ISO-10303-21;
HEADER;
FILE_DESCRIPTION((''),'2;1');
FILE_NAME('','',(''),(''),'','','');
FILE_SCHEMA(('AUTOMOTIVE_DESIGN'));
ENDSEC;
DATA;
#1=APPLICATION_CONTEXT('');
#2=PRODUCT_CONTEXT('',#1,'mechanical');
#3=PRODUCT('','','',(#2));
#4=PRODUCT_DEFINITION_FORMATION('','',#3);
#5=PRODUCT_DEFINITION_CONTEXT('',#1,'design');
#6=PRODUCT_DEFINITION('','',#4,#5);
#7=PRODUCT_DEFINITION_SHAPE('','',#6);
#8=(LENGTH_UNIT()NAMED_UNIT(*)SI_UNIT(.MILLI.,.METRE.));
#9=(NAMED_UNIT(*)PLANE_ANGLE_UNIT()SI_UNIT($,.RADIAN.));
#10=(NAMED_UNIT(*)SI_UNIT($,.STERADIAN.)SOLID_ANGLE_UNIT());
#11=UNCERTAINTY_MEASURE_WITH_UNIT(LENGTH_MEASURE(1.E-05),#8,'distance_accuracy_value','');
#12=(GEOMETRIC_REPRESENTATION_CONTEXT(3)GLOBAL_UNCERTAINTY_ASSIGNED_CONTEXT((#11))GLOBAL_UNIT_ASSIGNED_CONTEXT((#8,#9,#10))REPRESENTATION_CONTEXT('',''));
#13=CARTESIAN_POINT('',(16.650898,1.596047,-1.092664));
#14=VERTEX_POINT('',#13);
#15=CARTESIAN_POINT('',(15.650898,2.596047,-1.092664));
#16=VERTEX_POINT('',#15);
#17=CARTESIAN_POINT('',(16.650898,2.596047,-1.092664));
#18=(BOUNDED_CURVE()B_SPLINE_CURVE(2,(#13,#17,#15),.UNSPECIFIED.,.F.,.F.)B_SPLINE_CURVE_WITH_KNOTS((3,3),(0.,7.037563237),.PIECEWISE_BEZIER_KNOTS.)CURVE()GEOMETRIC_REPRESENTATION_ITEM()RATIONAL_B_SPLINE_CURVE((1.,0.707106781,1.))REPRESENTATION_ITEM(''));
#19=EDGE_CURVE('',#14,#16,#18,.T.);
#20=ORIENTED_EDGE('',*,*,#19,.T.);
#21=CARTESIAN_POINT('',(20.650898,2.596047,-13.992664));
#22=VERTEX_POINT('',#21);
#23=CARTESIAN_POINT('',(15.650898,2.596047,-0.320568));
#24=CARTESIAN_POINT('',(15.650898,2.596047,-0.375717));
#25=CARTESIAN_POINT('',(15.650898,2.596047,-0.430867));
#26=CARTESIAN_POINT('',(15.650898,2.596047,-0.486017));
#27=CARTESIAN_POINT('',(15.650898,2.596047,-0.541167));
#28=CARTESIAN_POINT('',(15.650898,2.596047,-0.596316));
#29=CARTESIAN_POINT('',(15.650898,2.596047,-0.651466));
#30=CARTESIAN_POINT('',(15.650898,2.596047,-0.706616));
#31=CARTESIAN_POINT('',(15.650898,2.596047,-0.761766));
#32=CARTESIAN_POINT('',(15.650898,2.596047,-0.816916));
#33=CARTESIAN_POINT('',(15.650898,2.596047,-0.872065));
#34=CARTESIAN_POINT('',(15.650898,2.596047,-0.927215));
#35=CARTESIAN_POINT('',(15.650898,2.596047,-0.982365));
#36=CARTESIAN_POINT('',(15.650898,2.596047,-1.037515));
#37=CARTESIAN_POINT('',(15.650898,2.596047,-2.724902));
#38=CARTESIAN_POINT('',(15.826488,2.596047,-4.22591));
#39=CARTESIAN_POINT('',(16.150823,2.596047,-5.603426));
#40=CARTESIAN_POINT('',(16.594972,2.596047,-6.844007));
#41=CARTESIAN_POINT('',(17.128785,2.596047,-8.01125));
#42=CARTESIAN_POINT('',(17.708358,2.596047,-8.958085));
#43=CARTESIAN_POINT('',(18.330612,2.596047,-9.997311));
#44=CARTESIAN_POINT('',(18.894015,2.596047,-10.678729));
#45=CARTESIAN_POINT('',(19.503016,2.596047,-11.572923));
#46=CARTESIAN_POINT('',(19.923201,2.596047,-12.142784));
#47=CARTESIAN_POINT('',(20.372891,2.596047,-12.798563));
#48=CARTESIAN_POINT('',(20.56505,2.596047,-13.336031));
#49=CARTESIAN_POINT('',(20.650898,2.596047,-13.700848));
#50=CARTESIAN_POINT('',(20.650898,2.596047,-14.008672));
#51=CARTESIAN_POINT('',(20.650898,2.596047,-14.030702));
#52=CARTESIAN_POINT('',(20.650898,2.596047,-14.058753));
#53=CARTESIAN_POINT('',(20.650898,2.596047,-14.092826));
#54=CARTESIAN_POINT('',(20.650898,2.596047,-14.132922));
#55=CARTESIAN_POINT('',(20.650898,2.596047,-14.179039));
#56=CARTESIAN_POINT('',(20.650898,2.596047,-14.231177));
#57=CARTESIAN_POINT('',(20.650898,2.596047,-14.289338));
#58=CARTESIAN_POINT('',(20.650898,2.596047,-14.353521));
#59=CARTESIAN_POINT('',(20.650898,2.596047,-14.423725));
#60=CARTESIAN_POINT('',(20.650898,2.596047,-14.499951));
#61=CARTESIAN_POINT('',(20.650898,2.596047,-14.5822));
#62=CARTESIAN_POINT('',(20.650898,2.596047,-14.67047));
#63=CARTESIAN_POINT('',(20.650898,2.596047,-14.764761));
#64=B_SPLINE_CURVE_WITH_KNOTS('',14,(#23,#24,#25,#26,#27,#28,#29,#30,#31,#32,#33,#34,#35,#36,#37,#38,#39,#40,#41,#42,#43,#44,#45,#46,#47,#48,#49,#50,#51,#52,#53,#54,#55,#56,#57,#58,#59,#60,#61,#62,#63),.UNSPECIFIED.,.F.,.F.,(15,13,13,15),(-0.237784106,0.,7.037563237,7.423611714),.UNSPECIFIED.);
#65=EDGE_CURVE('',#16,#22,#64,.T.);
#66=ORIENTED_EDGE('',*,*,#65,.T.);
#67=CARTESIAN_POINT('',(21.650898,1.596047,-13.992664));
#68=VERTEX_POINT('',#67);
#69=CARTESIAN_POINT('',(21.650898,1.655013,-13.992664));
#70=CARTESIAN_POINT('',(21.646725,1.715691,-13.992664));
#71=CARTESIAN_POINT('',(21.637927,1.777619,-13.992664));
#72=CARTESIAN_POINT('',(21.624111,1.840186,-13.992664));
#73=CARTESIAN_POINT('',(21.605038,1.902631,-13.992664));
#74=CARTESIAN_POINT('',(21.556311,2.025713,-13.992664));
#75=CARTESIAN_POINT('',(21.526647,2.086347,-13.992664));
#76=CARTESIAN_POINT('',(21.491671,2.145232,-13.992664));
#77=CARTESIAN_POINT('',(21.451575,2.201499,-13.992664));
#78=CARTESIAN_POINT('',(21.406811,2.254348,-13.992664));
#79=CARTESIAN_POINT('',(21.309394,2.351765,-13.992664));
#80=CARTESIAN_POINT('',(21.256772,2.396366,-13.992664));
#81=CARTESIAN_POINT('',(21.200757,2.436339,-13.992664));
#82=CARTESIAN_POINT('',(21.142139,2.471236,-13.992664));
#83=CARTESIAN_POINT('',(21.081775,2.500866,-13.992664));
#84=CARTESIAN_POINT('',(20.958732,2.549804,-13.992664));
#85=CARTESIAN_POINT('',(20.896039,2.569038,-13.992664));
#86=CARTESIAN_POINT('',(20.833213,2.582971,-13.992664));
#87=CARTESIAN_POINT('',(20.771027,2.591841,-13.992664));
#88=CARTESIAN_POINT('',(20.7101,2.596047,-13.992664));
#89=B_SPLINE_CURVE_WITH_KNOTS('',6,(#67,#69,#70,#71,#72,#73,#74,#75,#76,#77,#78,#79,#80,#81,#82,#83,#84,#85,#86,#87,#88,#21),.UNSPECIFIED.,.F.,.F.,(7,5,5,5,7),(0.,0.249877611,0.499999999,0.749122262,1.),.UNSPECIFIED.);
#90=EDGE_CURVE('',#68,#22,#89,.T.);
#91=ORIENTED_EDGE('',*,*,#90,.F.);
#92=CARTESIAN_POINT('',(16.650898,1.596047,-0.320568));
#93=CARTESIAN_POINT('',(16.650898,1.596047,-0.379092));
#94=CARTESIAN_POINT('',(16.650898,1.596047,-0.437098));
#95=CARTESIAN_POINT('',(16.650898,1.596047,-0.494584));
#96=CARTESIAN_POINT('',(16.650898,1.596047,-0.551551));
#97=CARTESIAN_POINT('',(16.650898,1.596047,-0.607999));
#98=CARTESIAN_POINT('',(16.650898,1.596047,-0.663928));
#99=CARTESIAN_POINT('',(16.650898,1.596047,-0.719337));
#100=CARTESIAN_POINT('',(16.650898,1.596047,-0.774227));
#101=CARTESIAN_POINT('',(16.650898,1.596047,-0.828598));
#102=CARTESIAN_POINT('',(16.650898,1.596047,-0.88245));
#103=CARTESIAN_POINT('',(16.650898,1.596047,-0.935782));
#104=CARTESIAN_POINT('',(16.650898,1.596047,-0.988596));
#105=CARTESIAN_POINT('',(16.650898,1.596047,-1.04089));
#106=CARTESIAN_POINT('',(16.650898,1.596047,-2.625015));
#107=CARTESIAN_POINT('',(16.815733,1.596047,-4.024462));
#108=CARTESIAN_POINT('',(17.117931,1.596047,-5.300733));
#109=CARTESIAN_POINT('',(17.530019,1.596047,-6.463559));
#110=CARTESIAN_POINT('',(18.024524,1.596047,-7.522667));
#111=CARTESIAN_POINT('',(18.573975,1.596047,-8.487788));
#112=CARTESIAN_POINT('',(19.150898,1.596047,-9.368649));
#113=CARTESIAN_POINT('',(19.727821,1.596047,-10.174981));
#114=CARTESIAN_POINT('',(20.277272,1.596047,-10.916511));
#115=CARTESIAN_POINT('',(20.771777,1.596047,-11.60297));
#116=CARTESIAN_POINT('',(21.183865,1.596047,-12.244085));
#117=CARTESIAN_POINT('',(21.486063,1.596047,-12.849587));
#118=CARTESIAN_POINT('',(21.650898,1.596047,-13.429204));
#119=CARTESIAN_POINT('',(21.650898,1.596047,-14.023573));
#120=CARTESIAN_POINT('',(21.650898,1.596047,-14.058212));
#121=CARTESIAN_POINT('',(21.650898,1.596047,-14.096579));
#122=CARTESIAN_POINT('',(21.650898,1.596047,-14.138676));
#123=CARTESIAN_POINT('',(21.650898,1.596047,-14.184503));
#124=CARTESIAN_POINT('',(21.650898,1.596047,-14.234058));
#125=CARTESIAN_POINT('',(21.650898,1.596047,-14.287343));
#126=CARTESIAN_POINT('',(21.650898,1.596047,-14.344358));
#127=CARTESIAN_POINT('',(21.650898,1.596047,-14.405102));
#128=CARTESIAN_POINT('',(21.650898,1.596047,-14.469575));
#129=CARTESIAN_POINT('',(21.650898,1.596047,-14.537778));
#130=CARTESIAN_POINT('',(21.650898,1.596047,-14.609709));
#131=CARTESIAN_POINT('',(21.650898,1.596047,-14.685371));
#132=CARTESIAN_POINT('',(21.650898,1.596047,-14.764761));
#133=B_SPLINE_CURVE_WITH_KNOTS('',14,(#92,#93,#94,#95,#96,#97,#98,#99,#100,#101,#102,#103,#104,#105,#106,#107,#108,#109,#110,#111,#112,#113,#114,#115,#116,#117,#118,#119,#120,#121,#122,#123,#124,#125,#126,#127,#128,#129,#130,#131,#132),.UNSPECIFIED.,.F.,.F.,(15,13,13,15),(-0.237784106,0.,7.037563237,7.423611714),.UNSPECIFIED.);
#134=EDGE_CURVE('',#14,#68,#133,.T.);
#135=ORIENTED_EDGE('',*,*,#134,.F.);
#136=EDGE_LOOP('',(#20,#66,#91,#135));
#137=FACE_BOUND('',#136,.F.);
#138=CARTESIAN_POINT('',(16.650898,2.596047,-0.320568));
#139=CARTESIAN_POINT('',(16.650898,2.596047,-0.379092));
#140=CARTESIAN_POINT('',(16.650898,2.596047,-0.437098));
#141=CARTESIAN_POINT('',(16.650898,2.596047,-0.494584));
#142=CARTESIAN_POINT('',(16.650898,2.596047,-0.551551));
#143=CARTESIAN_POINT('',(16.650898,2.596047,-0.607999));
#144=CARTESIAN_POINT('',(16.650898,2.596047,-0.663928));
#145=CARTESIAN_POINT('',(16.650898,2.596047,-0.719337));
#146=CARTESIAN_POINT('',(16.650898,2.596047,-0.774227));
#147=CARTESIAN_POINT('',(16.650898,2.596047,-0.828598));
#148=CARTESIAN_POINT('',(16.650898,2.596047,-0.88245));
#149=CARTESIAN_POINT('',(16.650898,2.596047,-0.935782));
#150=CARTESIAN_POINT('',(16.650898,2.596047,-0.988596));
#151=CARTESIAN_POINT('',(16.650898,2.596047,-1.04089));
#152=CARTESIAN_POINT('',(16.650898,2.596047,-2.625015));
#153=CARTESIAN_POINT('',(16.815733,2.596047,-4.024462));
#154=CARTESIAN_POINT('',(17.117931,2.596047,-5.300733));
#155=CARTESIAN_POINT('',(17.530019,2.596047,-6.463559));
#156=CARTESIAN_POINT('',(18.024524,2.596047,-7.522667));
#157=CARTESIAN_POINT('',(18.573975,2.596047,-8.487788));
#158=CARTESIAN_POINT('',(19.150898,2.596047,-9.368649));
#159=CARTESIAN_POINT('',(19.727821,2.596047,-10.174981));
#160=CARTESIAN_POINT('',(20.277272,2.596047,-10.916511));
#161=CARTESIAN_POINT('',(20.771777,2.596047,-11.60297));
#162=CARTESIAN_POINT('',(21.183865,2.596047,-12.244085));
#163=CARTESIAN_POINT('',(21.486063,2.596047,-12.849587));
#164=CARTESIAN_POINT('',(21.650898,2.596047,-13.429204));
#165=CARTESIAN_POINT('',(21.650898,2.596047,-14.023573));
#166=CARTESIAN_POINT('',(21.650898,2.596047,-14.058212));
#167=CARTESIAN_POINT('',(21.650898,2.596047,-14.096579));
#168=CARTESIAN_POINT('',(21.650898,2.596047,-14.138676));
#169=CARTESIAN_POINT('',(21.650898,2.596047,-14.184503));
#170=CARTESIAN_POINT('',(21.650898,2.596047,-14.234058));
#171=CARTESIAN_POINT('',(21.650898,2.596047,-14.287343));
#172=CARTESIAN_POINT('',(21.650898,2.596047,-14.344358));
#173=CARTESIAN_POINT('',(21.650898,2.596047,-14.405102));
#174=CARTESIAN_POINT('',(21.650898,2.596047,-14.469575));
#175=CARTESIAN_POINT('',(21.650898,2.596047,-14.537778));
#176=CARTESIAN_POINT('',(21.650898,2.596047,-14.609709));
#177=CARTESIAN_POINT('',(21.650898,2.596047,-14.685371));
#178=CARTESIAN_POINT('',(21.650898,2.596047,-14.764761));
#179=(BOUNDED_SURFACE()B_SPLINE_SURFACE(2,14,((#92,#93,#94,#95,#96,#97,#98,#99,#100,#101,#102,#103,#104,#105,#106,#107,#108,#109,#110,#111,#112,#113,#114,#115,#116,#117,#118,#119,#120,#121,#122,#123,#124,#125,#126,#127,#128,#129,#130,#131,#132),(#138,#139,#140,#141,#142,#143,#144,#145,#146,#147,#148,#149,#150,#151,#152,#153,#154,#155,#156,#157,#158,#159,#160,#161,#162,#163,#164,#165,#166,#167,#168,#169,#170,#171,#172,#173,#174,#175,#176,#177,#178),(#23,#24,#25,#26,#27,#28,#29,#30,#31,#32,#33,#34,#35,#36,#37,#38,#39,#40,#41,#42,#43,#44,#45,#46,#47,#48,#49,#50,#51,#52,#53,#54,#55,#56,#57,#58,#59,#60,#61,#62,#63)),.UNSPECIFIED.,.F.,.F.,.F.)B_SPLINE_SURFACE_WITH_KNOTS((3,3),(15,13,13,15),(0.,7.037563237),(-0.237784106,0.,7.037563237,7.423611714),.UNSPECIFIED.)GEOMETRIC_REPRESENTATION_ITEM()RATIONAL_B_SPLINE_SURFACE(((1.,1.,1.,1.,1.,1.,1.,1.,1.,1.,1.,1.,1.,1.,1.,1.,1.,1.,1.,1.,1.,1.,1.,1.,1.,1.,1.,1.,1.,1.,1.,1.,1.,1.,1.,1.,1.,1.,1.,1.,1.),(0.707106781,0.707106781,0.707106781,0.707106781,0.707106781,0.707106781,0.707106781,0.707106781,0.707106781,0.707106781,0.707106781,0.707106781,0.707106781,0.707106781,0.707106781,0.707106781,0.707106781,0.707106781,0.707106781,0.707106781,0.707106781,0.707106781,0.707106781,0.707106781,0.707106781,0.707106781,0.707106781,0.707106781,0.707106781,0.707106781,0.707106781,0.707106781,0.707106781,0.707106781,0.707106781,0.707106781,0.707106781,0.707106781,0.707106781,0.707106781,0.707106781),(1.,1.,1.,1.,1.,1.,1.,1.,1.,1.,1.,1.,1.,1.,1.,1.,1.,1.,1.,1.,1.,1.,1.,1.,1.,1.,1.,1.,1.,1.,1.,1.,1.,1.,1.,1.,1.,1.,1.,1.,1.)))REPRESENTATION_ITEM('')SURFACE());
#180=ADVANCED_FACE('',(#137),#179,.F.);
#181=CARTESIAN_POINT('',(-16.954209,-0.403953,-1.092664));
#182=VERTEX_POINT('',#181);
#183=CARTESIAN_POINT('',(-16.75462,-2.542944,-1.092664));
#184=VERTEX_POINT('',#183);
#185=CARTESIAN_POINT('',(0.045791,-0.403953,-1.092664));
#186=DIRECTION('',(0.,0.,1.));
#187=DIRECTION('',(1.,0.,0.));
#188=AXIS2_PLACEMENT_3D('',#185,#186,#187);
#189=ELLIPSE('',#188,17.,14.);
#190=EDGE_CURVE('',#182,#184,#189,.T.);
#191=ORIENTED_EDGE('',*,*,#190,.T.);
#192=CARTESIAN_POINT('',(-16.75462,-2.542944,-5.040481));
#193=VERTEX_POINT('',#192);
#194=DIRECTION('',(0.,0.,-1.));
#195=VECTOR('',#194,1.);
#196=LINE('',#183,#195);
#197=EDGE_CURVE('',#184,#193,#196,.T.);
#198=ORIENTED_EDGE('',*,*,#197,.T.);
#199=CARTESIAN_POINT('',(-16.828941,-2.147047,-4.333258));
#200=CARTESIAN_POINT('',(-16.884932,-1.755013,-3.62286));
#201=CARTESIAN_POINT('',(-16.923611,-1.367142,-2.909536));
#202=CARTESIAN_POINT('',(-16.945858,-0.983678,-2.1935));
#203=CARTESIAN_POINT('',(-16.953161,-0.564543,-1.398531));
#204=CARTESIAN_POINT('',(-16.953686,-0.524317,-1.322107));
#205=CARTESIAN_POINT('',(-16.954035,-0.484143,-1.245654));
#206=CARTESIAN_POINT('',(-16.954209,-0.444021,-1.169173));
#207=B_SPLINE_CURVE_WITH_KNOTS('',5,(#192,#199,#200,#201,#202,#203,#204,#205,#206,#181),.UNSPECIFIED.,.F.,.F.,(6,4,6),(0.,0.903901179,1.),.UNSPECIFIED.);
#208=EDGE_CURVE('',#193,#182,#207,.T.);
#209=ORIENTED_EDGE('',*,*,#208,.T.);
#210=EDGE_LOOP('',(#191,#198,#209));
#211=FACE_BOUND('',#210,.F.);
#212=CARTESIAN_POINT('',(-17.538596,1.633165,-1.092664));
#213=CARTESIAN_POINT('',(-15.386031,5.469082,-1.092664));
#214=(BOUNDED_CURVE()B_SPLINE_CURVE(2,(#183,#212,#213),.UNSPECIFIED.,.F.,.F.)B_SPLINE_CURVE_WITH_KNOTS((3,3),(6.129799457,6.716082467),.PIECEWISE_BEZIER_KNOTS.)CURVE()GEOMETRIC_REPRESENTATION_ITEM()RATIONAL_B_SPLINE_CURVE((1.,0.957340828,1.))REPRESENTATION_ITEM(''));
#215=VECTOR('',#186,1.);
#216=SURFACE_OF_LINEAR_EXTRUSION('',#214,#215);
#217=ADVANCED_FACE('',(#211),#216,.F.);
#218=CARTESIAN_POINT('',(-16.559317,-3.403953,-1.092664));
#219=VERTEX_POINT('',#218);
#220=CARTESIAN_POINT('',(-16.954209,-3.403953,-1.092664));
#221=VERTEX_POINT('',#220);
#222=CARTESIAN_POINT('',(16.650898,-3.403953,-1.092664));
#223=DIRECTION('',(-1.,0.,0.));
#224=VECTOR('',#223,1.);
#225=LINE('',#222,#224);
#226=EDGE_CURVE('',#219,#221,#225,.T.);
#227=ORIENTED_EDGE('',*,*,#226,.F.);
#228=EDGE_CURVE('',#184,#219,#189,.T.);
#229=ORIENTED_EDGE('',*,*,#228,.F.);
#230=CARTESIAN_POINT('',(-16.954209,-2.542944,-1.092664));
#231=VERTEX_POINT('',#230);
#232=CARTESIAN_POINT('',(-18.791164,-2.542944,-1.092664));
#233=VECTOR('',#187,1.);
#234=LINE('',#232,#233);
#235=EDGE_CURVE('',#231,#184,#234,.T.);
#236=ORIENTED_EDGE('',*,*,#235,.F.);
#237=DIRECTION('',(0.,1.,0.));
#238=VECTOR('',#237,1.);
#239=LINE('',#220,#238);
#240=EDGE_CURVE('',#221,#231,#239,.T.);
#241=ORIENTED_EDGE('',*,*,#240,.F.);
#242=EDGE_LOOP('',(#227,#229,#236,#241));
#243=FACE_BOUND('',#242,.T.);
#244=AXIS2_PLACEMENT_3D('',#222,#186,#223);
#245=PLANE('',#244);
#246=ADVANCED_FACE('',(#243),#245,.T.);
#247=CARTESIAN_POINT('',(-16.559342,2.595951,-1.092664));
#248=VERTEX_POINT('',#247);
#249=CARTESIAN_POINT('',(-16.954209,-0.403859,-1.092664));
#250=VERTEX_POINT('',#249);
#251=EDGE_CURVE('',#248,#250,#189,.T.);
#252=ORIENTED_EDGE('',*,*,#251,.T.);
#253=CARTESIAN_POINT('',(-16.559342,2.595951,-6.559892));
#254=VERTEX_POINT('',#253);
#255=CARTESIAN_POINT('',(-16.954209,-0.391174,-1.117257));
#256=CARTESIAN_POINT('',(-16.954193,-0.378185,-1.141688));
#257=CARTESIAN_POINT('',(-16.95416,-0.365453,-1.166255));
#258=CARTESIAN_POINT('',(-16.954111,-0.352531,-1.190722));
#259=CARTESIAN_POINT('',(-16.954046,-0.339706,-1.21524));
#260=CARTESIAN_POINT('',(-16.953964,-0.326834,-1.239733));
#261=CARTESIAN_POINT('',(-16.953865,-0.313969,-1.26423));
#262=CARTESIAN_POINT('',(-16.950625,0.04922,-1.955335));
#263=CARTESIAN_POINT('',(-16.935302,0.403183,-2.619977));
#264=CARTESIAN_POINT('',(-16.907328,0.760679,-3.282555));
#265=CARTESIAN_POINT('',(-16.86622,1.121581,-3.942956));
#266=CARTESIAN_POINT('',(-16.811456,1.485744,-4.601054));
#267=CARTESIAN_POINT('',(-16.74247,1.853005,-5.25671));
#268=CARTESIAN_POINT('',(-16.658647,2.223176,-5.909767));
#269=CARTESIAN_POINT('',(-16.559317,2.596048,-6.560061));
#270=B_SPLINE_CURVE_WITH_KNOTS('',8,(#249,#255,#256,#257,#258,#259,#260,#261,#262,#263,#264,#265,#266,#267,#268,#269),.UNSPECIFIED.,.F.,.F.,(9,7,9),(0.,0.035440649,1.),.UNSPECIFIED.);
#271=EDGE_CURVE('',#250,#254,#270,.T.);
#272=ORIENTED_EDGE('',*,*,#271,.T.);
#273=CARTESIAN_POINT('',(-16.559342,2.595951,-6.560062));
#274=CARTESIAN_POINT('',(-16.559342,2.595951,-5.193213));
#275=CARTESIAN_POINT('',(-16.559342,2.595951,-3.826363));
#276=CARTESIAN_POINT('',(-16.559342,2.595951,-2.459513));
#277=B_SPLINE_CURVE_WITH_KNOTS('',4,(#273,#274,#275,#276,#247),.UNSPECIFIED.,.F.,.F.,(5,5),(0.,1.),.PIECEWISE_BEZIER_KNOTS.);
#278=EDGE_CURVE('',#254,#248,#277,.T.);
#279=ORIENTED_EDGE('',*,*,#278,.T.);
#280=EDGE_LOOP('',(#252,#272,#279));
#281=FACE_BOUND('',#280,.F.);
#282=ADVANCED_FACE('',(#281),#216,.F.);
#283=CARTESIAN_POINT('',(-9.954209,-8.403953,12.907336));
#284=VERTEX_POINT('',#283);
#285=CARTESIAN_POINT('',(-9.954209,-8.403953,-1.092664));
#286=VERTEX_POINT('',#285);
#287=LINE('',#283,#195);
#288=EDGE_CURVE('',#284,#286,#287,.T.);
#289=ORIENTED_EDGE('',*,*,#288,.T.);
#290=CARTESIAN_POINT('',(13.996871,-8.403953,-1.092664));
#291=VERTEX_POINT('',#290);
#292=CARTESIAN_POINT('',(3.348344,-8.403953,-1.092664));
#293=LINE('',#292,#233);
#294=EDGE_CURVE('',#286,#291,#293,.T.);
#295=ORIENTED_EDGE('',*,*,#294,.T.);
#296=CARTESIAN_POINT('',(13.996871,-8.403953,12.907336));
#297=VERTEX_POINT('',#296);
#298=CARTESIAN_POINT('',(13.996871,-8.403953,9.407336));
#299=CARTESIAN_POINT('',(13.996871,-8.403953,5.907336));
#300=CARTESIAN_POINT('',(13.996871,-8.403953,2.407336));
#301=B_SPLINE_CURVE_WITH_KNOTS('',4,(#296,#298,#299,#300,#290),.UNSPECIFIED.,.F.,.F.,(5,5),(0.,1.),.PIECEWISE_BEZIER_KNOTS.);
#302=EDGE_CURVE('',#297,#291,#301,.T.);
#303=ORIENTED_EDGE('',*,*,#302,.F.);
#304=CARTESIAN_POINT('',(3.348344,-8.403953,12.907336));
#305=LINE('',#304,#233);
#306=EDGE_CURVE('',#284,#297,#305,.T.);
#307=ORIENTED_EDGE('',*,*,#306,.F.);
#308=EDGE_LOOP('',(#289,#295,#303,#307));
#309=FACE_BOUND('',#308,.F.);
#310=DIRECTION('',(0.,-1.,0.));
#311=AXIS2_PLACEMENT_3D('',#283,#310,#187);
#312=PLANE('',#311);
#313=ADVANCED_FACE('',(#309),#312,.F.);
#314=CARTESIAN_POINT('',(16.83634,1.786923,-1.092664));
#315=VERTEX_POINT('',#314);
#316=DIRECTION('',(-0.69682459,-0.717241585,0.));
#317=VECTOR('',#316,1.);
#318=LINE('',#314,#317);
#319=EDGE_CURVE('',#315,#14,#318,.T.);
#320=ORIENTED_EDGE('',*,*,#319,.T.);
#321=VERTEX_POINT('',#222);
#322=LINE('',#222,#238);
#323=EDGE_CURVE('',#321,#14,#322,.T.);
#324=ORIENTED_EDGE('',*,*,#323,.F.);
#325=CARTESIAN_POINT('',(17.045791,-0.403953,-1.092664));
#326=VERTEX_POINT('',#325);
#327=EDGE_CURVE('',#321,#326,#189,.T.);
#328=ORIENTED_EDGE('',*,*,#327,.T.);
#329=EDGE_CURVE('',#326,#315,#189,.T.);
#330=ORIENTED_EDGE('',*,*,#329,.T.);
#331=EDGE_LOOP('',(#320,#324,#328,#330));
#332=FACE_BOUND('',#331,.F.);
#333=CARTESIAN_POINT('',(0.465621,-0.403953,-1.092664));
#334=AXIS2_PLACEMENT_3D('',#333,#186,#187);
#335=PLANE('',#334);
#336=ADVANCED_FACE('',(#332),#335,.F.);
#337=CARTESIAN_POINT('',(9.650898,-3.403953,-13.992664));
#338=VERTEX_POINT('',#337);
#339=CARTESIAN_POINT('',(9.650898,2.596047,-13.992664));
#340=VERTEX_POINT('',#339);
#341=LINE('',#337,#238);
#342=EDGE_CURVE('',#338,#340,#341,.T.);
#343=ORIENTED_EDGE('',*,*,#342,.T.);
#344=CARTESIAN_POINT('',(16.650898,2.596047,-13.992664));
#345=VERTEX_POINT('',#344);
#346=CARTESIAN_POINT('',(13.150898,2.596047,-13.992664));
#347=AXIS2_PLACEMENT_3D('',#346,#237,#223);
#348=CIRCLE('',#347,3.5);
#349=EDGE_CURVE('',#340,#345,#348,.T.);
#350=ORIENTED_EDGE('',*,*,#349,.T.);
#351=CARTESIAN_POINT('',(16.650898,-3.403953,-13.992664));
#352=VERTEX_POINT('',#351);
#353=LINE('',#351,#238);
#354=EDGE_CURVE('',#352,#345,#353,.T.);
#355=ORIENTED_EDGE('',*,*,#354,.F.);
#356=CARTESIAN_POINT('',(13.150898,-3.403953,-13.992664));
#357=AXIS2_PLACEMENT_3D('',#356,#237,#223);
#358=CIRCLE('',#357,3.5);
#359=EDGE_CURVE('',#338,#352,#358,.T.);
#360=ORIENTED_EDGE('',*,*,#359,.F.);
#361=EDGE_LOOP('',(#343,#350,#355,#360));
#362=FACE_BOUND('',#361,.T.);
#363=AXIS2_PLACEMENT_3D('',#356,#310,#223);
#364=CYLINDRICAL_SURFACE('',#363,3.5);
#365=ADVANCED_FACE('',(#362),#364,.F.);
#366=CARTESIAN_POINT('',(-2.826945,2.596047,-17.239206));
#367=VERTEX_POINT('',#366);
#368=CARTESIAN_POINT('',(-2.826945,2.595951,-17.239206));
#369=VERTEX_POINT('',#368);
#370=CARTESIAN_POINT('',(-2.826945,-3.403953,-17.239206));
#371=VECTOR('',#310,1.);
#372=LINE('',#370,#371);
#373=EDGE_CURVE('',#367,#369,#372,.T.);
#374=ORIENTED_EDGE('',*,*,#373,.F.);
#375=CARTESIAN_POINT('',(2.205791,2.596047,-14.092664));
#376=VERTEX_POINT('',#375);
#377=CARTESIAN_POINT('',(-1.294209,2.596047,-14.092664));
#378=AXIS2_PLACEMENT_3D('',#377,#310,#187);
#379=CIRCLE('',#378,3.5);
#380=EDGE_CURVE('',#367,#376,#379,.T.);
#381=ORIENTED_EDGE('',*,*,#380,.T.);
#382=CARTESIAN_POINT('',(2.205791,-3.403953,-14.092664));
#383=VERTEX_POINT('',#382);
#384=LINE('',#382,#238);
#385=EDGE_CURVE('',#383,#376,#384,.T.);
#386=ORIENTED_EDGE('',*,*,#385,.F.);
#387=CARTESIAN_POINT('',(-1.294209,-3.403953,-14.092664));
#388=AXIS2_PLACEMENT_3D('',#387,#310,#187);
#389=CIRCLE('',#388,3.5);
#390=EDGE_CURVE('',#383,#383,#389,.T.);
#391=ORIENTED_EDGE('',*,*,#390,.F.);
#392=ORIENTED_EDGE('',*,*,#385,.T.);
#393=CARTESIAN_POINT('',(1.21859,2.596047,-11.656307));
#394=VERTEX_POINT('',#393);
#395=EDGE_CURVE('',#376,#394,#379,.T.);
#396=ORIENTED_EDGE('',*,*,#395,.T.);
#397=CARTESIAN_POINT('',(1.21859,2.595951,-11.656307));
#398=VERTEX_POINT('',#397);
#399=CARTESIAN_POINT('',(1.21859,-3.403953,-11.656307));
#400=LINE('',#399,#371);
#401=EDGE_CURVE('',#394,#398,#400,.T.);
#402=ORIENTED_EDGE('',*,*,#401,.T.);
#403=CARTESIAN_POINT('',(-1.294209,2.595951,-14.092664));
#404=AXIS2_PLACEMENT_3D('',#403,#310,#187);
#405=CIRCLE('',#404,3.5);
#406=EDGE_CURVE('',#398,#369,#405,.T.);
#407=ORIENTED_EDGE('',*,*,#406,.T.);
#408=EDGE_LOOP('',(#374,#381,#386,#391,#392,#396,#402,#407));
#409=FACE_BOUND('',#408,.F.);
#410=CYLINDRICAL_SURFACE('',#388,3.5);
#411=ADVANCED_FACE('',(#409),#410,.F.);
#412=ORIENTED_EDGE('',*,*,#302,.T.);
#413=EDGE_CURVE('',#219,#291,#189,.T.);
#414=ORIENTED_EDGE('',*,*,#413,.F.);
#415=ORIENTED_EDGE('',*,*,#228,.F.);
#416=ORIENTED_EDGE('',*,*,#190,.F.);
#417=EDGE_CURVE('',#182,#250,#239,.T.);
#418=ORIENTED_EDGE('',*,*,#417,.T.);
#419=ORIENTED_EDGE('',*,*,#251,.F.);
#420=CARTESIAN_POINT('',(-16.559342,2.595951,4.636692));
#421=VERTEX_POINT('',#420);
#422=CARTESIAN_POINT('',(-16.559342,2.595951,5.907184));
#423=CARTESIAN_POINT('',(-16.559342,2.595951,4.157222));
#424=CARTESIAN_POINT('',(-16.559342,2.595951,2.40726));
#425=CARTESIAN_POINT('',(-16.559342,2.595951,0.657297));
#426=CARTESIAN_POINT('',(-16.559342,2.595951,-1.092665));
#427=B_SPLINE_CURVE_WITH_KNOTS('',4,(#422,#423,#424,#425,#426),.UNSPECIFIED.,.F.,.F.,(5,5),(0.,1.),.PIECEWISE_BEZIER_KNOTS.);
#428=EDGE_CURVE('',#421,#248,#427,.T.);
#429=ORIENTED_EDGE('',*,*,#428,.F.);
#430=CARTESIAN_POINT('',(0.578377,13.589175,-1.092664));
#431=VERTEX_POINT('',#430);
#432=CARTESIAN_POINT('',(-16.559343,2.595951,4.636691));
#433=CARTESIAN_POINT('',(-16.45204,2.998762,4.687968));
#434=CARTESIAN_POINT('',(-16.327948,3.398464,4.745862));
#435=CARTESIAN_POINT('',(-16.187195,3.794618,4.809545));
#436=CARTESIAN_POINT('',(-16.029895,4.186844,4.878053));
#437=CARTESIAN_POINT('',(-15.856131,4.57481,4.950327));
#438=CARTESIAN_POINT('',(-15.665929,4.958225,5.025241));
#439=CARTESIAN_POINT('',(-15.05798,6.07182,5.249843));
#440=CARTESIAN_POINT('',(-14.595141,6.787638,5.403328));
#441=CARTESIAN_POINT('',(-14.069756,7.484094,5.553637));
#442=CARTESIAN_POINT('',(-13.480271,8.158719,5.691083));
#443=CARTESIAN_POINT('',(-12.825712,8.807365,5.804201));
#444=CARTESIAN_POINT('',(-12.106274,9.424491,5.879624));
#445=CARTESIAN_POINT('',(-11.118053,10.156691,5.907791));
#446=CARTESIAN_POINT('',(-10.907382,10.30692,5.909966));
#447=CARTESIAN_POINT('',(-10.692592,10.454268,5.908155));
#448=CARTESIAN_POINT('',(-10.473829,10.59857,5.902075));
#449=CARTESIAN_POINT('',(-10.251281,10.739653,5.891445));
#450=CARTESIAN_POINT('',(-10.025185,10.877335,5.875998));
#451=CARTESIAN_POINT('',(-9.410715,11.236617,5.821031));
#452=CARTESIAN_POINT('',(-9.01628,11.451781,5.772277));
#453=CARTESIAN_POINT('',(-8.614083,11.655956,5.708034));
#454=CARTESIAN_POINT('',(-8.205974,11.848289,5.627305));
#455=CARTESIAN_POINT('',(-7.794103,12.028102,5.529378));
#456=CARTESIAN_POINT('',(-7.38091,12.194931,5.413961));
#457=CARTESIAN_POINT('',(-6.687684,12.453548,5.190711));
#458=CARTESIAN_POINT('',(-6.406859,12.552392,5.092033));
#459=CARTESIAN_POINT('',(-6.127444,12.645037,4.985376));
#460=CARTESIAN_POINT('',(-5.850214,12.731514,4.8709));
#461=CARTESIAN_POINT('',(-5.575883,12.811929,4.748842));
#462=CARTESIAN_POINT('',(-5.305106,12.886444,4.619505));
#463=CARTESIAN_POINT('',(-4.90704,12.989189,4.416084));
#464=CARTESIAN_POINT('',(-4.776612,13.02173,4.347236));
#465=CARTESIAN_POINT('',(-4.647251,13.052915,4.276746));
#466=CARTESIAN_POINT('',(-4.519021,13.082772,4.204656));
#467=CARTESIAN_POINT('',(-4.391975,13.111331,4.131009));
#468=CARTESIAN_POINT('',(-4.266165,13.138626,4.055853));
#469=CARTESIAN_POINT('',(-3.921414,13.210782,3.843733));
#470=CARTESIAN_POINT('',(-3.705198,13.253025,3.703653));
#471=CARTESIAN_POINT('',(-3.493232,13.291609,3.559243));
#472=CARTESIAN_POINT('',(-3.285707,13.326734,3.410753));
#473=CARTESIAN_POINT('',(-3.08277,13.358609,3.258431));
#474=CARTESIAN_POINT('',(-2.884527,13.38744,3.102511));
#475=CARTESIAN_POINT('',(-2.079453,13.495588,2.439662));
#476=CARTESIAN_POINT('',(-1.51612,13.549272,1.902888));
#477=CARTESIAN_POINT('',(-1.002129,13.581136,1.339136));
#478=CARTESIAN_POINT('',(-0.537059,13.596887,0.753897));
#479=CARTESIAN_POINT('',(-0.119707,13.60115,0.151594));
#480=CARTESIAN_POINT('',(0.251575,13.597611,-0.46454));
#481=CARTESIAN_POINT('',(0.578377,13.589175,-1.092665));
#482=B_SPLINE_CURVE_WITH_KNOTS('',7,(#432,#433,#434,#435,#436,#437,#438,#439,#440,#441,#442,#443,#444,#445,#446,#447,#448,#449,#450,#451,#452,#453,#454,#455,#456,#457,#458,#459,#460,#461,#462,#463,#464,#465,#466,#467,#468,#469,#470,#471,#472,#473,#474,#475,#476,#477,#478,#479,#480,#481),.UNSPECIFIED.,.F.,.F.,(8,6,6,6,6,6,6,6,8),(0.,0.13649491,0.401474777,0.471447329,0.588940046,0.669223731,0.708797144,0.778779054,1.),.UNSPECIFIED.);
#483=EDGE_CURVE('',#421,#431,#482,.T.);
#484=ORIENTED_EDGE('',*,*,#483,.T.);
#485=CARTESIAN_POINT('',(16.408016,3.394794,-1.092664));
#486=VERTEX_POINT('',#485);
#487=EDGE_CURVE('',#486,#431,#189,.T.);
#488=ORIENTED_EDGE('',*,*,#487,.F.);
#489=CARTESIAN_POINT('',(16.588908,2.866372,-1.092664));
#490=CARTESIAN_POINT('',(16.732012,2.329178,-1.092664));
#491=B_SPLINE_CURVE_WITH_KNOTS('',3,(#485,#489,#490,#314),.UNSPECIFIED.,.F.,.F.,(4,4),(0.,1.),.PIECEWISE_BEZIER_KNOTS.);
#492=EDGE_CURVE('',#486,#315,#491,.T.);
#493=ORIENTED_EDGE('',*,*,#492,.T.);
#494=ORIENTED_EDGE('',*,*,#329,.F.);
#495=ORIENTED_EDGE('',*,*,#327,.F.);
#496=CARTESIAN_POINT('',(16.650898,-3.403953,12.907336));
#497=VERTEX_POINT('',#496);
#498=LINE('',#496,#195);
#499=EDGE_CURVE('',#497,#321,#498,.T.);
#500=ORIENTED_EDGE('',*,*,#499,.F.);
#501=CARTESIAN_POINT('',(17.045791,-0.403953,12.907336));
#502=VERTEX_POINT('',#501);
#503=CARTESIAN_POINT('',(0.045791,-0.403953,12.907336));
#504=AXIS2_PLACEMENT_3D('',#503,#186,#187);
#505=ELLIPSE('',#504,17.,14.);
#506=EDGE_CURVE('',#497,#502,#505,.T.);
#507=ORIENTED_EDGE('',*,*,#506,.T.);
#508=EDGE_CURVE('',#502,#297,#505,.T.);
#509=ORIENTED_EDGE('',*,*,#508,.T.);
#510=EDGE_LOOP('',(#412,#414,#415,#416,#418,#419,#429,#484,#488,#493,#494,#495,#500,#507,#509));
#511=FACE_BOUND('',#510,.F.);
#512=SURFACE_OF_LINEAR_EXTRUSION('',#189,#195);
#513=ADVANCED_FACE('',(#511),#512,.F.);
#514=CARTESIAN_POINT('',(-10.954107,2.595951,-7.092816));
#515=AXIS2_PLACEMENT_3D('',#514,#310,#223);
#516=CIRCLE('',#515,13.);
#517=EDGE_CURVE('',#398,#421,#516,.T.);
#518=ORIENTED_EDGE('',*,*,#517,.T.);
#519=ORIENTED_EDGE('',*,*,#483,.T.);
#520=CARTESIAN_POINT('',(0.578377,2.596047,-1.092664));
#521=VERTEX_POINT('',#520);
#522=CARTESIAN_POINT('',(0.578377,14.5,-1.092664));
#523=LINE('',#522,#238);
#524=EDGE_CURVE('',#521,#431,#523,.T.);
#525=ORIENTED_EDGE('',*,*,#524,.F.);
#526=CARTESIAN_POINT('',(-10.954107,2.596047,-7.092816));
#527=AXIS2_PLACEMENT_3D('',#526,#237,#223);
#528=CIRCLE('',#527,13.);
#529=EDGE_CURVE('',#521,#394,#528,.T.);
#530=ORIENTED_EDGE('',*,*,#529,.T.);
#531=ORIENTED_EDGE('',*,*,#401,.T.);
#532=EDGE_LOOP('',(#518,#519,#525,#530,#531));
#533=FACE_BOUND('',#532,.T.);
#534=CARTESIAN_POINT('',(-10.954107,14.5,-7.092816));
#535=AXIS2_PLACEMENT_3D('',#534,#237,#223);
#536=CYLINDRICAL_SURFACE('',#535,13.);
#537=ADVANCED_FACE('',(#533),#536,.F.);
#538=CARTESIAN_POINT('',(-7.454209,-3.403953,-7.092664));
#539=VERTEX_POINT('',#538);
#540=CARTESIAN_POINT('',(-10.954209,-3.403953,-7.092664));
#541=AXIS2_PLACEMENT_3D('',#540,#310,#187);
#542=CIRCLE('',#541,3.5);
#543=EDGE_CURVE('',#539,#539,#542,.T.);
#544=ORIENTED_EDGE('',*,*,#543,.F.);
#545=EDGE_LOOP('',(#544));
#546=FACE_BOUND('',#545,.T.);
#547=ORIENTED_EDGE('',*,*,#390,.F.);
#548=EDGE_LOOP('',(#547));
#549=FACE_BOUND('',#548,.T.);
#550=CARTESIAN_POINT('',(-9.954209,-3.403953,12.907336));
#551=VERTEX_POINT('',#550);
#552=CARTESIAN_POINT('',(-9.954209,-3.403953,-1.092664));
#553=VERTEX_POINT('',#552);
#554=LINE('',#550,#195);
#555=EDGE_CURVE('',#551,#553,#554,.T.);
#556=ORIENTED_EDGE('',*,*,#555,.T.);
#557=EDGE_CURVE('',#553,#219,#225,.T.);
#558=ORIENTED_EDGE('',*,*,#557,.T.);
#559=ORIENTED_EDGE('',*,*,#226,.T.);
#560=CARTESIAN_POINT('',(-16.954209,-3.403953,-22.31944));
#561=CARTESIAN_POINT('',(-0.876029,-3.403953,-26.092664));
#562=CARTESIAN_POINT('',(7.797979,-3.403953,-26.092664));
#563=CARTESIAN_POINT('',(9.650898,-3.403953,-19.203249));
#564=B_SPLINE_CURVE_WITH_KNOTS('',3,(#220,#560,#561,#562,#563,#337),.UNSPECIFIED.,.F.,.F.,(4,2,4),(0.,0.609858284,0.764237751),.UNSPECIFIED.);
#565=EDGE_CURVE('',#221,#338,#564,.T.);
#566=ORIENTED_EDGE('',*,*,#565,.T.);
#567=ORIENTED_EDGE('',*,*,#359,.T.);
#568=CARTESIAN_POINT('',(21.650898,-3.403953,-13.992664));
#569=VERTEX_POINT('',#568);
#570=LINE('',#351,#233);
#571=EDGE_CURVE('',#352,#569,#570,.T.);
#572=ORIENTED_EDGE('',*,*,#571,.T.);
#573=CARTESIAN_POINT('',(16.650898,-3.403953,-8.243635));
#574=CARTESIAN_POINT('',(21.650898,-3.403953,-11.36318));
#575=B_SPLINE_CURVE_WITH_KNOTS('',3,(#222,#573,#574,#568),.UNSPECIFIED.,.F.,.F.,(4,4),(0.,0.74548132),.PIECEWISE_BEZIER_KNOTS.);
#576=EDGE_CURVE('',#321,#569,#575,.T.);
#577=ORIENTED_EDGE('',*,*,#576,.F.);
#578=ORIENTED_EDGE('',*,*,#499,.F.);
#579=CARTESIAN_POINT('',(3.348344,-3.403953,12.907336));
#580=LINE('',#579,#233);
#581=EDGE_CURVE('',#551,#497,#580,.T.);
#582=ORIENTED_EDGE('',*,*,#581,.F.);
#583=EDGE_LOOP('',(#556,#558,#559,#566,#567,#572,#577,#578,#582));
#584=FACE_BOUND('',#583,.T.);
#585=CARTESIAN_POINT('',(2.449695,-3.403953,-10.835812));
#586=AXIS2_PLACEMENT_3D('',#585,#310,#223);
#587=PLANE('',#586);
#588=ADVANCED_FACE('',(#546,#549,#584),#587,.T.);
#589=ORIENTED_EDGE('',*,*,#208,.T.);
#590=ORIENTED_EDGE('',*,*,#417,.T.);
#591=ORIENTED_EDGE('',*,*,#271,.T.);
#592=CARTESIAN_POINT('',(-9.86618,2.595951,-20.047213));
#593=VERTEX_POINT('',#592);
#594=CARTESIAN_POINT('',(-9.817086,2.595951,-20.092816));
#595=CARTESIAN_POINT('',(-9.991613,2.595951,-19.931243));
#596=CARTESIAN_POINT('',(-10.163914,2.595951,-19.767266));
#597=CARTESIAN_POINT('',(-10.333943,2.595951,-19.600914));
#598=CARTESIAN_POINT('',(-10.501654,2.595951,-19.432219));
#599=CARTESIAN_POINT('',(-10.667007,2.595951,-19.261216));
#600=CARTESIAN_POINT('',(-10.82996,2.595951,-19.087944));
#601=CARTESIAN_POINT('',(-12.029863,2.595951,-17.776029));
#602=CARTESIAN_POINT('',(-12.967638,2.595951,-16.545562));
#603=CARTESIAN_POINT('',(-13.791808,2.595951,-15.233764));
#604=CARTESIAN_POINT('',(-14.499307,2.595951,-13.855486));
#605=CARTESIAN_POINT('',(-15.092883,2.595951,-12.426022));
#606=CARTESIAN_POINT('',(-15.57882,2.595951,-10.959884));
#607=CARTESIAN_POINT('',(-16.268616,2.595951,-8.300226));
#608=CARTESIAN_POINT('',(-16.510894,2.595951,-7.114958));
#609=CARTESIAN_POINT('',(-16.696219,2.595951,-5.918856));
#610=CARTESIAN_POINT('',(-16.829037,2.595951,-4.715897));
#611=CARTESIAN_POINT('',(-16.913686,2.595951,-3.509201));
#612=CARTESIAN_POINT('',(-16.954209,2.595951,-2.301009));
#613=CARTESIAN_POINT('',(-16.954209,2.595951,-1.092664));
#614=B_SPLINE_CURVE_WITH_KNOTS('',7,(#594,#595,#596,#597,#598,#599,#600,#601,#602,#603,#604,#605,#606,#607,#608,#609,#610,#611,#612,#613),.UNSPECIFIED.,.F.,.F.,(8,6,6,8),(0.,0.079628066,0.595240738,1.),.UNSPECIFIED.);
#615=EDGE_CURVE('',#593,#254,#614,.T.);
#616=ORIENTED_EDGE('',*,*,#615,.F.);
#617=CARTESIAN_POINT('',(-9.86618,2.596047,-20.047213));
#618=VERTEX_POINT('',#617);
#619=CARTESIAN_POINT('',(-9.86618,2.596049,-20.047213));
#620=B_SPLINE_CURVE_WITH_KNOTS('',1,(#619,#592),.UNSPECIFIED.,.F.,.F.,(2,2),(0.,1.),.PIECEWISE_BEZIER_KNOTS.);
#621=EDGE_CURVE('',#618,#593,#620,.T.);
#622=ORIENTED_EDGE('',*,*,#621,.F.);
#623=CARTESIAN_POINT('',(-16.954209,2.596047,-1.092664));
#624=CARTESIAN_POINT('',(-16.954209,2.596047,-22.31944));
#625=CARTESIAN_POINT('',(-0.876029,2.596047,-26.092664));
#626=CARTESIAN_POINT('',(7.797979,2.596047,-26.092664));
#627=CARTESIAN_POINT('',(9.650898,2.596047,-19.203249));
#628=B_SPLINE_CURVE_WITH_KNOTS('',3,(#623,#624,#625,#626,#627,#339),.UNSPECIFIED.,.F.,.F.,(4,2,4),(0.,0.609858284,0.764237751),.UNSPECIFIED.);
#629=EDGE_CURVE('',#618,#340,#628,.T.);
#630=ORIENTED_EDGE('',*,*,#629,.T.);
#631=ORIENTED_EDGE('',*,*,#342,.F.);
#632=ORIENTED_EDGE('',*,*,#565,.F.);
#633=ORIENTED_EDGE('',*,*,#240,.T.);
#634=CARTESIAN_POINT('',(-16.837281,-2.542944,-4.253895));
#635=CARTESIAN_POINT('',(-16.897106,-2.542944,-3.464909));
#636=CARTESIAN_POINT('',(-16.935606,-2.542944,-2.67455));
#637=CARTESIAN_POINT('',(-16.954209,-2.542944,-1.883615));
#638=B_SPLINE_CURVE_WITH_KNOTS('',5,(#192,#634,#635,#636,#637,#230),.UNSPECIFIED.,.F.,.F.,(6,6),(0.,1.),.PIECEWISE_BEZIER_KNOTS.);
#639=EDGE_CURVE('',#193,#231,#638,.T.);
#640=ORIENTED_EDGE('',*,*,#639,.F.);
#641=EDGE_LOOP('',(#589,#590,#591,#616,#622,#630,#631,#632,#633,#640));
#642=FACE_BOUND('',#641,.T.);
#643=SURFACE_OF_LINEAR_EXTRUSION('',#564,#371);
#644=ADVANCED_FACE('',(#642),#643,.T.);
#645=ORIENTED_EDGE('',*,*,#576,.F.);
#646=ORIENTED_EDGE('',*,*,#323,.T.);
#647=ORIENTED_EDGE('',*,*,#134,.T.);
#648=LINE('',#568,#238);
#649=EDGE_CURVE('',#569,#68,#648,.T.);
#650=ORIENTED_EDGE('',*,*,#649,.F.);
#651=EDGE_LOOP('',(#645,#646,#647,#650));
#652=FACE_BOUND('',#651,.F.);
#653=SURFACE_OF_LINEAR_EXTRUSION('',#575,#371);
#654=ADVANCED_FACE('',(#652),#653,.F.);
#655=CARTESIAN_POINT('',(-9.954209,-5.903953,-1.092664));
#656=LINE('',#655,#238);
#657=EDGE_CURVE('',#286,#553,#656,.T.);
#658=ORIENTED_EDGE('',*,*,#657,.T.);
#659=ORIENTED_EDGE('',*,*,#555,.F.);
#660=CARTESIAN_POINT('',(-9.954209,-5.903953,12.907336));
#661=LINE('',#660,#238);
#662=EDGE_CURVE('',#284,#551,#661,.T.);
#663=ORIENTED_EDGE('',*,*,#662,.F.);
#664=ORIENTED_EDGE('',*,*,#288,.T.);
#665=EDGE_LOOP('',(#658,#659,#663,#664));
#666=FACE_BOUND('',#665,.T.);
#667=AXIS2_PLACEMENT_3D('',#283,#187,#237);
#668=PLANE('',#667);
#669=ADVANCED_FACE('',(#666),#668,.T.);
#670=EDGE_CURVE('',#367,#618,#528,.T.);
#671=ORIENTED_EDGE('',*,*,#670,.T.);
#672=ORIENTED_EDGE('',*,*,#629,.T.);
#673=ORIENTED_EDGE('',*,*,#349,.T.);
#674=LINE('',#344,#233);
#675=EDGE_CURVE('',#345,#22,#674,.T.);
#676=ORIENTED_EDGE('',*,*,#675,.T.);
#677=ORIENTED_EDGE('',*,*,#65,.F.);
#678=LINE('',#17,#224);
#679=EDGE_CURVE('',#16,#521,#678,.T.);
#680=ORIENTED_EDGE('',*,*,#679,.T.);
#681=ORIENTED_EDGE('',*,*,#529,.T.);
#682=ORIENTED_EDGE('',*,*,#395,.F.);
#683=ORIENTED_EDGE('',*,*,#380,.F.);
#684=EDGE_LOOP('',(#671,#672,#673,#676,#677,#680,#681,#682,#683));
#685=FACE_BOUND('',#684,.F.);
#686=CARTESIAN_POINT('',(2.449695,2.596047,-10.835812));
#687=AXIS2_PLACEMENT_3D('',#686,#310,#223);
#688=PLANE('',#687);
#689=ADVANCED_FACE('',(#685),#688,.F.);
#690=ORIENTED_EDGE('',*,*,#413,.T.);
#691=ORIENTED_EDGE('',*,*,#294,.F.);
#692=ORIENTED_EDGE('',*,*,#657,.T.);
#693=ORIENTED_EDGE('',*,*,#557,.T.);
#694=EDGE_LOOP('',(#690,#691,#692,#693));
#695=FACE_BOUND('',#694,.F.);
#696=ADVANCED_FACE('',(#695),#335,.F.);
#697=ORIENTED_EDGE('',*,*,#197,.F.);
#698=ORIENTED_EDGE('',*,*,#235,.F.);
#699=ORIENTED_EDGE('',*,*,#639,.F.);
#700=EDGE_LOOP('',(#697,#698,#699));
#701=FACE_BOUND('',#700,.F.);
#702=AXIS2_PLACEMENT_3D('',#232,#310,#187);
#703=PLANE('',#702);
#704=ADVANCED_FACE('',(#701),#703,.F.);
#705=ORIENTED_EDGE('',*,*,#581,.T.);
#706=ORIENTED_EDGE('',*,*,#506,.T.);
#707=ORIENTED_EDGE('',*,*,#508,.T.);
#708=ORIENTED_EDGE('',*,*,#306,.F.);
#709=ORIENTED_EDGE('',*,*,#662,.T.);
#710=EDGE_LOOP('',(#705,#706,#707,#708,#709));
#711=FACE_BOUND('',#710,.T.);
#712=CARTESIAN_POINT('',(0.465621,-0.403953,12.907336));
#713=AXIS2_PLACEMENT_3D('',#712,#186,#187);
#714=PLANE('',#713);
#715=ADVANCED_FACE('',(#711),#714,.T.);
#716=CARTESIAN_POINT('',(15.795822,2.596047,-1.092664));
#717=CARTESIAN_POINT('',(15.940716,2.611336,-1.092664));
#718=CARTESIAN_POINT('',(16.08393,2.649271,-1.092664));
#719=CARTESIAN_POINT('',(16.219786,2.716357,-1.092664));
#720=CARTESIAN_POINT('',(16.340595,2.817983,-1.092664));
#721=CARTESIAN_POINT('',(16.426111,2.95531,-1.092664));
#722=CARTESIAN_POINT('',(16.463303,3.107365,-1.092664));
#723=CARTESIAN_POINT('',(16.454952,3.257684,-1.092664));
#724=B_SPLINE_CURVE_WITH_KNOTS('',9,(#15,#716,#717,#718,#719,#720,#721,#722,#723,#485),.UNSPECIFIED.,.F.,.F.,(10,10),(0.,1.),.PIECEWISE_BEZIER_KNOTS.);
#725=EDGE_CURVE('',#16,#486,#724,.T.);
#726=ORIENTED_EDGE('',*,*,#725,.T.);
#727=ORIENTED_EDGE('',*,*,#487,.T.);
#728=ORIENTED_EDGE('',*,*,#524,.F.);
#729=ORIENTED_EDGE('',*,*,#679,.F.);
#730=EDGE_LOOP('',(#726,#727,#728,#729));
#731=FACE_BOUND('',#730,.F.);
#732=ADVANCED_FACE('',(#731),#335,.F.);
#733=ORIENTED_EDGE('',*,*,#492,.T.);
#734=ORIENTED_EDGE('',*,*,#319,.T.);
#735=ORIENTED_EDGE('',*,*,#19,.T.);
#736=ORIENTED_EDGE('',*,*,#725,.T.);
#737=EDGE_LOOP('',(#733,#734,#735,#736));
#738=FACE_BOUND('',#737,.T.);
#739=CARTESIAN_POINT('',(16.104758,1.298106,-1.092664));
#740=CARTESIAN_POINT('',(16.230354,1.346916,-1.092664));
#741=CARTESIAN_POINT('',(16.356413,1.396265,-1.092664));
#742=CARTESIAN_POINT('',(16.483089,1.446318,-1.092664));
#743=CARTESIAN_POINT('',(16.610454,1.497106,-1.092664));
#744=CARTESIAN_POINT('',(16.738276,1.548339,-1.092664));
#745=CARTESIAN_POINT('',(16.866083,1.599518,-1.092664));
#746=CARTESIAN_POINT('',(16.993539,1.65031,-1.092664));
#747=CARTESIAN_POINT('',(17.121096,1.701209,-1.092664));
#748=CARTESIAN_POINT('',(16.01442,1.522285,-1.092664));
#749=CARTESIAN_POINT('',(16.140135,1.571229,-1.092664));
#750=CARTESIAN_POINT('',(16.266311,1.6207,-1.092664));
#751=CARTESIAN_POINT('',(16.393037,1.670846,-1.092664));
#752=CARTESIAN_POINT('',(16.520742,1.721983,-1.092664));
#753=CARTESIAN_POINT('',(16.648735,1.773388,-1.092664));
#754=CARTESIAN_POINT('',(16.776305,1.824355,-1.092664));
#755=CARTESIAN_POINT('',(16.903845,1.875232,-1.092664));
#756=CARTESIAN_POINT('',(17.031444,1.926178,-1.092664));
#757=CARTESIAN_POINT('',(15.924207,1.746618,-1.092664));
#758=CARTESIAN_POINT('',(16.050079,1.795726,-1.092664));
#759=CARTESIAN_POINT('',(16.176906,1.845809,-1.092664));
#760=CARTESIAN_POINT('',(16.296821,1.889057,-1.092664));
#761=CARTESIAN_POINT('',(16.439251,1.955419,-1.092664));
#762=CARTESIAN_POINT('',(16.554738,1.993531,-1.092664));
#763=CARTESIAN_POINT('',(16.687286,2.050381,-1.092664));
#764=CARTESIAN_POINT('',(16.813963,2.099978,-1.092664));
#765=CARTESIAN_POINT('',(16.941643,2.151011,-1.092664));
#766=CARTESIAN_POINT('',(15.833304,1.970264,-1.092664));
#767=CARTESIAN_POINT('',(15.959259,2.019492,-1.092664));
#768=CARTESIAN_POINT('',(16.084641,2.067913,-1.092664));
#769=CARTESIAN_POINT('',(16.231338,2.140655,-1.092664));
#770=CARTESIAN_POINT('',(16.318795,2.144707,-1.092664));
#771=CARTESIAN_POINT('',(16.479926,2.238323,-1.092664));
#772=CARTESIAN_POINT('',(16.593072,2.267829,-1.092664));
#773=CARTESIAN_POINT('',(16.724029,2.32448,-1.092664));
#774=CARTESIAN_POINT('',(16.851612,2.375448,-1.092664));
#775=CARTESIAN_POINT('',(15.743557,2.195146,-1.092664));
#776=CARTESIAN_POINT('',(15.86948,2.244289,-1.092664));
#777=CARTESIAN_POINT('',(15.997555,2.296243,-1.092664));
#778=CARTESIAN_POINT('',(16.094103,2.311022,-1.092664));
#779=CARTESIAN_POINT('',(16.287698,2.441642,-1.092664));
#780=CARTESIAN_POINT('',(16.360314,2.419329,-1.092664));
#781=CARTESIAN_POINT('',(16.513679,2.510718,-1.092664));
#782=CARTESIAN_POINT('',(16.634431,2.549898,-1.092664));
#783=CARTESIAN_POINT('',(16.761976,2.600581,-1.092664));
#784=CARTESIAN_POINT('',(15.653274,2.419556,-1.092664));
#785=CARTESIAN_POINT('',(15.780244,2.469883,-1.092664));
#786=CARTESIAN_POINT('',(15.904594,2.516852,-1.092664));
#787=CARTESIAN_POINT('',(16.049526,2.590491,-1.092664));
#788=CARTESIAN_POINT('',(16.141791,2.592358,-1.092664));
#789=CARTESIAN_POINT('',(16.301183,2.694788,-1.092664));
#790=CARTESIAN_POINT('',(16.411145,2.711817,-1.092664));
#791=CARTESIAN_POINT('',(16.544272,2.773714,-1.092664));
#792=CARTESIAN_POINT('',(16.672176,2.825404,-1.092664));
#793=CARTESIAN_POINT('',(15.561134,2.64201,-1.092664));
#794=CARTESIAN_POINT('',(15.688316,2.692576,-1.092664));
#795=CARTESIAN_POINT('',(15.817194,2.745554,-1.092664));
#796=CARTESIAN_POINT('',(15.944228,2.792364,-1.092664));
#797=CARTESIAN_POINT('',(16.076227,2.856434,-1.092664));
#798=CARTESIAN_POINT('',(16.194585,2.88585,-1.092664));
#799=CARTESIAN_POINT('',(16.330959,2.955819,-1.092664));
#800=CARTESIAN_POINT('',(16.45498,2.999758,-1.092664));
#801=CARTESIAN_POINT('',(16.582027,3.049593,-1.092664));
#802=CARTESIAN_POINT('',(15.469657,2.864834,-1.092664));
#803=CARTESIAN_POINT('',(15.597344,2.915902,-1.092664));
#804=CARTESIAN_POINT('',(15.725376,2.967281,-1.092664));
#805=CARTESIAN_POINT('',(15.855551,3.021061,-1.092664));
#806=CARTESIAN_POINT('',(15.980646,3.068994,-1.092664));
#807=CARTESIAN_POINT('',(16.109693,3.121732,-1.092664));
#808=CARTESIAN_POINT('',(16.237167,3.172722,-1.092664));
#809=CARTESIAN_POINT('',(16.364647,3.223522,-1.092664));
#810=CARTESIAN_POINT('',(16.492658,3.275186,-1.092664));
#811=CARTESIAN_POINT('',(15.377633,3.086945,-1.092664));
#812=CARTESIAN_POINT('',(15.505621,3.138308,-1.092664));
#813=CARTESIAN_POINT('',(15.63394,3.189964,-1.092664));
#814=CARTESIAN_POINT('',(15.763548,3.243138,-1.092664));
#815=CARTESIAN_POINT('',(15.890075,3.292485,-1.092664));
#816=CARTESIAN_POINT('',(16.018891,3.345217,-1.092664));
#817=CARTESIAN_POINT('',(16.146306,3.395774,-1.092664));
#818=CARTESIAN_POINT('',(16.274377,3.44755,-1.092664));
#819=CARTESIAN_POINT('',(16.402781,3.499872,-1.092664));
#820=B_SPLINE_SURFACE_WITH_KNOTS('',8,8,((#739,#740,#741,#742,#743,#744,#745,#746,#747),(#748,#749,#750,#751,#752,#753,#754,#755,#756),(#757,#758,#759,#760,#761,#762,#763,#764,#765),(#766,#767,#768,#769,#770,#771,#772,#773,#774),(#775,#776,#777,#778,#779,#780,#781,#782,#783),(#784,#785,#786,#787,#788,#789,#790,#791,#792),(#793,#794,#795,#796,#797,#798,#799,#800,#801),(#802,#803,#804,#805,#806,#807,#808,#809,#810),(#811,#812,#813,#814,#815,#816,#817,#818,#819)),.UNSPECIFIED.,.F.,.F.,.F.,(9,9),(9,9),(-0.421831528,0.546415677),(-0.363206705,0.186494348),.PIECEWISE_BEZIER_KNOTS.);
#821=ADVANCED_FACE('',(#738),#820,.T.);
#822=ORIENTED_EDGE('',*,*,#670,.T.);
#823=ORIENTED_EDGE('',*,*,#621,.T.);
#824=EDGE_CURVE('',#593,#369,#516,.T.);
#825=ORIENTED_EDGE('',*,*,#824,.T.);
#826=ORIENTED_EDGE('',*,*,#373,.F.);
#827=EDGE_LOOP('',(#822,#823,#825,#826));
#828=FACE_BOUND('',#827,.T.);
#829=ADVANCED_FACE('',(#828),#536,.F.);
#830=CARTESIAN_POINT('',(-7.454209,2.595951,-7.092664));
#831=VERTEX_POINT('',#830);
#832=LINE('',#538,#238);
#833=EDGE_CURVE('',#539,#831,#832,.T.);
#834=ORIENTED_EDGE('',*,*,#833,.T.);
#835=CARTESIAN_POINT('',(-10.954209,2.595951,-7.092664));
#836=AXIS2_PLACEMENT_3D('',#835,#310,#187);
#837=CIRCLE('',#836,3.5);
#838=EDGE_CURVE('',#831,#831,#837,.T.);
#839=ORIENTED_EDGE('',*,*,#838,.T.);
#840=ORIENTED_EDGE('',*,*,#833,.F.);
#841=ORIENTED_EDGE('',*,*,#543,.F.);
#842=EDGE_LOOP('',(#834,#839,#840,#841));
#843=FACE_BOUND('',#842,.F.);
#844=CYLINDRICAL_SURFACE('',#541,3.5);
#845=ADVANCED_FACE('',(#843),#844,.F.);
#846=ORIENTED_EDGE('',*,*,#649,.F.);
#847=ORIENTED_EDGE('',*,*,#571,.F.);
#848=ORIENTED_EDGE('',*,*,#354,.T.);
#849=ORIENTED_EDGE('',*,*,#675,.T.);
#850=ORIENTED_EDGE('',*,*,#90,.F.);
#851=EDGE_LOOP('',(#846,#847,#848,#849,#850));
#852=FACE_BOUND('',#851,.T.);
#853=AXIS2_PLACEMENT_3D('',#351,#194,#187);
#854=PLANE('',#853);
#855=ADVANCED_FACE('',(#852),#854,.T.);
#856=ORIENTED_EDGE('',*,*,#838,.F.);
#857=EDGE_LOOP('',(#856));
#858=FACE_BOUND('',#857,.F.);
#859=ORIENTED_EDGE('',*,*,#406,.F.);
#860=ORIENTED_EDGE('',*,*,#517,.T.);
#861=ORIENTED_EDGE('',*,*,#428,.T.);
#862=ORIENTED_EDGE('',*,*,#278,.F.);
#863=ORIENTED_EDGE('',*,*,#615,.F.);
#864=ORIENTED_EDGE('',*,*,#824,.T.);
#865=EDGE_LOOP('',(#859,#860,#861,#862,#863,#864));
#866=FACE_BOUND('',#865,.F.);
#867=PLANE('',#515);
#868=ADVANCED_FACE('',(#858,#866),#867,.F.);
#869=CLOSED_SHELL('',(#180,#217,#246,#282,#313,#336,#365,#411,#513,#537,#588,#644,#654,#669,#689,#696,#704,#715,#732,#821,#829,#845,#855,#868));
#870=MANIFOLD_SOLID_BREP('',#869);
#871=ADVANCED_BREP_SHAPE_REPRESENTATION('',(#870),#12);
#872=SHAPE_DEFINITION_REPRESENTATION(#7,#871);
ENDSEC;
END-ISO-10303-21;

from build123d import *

# Parameters (mm, degrees)
SKETCH1_RX          = 8.5
SKETCH1_RY          = 7
BOSS_EXTRUDE1_DEPTH = 7
SKETCH3_W           = 13.302553701
SKETCH3_H           = 2.5
CUT_EXTRUDE1_DEPTH  = 7
SKETCH4_R           = 1.75
BOSS_EXTRUDE3_DEPTH = 3
CUT_EXTRUDE2_DEPTH  = 10
FILLET1_R           = 0.5
SCALE1_SCALE        = 2
SKETCH10_R          = 13
CUT_EXTRUDE3_DEPTH  = 11.904048595


with BuildPart() as part:
    # Sketch1 → Boss-Extrude1 (new body)
    with BuildSketch(Plane.XY):
        with Locations((0, 0)):
            Ellipse(SKETCH1_RX, SKETCH1_RY)
    extrude(amount=BOSS_EXTRUDE1_DEPTH)

    # Sketch3 → Cut-Extrude1 (cut)
    with BuildSketch(Plane.XY.offset(7)):
        with Locations((1.651276851, -2.75)):
            Rectangle(SKETCH3_W, SKETCH3_H)
    extrude(amount=-CUT_EXTRUDE1_DEPTH, mode=Mode.SUBTRACT)

    # Sketch4 → Boss-Extrude3 (add)
    with BuildSketch(Plane(origin=(0, -1.5, 0), x_dir=(-1, 0, 0), z_dir=(0, -1, 0))):
        with BuildLine():
            Line((-8.302553701, 6.45), (-10.802553701, 6.45))
            add(Edge.make_bspline(
                [(-8.302553701, 0), (-8.302553701, 3.575485031), (-10.802553701, 5.135257865), (-10.802553701, 6.45)],
                knots=[0, 0, 0, 0, 0.74548132, 0.74548132, 0.74548132, 0.74548132], degree=3))
            Line((-8.302553701, 0), (8.5, 0))
            add(Edge.make_bspline(
                [(8.5, 0), (8.5, 10.613387886), (0.460909778, 12.5), (-3, 12.5)],
                knots=[0, 0, 0, 0, 0.609858284, 0.609858284, 0.609858284, 0.609858284], degree=3))
            add(Edge.make_bspline(
                [(-4.802553701, 6.45), (-4.802553701, 9.055292156), (-3.876094367, 12.5), (-3, 12.5)],
                knots=[0, 0, 0, 0, 0.703518023, 0.703518023, 0.703518023, 0.703518023], degree=3))
            ThreePointArc((-4.802553701, 6.45), (-6.552553701, 4.7), (-8.302553701, 6.45))
        make_face()
        with Locations(Location((0.67, 6.5, 0), (0, 0, 180))):
            Circle(SKETCH4_R, mode=Mode.SUBTRACT)
        with Locations(Location((5.5, 3, 0), (0, 0, 180))):
            Circle(SKETCH4_R, mode=Mode.SUBTRACT)
    extrude(amount=-BOSS_EXTRUDE3_DEPTH)

    # Sketch5 → Cut-Extrude2 (cut)
    with BuildSketch(Plane(origin=(0, 0, 0), x_dir=(-1, 0, 0), z_dir=(0, 0, -1))):
        with BuildLine():
            Line((7.715910661, 2.936517276), (9.418477353, 2.936517276))
            Line((9.418477353, 2.936517276), (9.418477353, -1.069495705))
            Line((9.418477353, -1.069495705), (8.400205207, -1.069495705))
            add(Edge.make_bspline(
                [(8.400205207, -1.069495705), (8.79219322, 1.018558972), (7.715910661, 2.936517276)],
                knots=[6.129799457, 6.129799457, 6.129799457, 6.716082467, 6.716082467, 6.716082467], degree=2, weights=[1, 0.957340828, 1]))
        make_face()
    extrude(amount=CUT_EXTRUDE2_DEPTH, mode=Mode.SUBTRACT)

    # Fillet1
    fillet1_edges = [part.edges().sort_by_distance(p)[0] for p in [
        (9.151569491, 1.5, -3.377856468),
    ]]
    fillet(fillet1_edges, radius=FILLET1_R)


with BuildPart() as part_1:
    # Scale1: scaled about (-0.04579055, 0.403952777, 1.092664481)
    add(part.part.scale(SCALE1_SCALE).moved(Location((0.04579055, -0.403952777, -1.092664481))))

    # Sketch10 → Cut-Extrude3 (cut)
    with BuildSketch(Plane(origin=(0, 14.5, 0), x_dir=(-1, 0, 0), z_dir=(0, -1, 0))):
        with Locations((10.954106998, 7.092815549)):
            Circle(SKETCH10_R)
    extrude(amount=CUT_EXTRUDE3_DEPTH, mode=Mode.SUBTRACT)


solid = part_1.part
